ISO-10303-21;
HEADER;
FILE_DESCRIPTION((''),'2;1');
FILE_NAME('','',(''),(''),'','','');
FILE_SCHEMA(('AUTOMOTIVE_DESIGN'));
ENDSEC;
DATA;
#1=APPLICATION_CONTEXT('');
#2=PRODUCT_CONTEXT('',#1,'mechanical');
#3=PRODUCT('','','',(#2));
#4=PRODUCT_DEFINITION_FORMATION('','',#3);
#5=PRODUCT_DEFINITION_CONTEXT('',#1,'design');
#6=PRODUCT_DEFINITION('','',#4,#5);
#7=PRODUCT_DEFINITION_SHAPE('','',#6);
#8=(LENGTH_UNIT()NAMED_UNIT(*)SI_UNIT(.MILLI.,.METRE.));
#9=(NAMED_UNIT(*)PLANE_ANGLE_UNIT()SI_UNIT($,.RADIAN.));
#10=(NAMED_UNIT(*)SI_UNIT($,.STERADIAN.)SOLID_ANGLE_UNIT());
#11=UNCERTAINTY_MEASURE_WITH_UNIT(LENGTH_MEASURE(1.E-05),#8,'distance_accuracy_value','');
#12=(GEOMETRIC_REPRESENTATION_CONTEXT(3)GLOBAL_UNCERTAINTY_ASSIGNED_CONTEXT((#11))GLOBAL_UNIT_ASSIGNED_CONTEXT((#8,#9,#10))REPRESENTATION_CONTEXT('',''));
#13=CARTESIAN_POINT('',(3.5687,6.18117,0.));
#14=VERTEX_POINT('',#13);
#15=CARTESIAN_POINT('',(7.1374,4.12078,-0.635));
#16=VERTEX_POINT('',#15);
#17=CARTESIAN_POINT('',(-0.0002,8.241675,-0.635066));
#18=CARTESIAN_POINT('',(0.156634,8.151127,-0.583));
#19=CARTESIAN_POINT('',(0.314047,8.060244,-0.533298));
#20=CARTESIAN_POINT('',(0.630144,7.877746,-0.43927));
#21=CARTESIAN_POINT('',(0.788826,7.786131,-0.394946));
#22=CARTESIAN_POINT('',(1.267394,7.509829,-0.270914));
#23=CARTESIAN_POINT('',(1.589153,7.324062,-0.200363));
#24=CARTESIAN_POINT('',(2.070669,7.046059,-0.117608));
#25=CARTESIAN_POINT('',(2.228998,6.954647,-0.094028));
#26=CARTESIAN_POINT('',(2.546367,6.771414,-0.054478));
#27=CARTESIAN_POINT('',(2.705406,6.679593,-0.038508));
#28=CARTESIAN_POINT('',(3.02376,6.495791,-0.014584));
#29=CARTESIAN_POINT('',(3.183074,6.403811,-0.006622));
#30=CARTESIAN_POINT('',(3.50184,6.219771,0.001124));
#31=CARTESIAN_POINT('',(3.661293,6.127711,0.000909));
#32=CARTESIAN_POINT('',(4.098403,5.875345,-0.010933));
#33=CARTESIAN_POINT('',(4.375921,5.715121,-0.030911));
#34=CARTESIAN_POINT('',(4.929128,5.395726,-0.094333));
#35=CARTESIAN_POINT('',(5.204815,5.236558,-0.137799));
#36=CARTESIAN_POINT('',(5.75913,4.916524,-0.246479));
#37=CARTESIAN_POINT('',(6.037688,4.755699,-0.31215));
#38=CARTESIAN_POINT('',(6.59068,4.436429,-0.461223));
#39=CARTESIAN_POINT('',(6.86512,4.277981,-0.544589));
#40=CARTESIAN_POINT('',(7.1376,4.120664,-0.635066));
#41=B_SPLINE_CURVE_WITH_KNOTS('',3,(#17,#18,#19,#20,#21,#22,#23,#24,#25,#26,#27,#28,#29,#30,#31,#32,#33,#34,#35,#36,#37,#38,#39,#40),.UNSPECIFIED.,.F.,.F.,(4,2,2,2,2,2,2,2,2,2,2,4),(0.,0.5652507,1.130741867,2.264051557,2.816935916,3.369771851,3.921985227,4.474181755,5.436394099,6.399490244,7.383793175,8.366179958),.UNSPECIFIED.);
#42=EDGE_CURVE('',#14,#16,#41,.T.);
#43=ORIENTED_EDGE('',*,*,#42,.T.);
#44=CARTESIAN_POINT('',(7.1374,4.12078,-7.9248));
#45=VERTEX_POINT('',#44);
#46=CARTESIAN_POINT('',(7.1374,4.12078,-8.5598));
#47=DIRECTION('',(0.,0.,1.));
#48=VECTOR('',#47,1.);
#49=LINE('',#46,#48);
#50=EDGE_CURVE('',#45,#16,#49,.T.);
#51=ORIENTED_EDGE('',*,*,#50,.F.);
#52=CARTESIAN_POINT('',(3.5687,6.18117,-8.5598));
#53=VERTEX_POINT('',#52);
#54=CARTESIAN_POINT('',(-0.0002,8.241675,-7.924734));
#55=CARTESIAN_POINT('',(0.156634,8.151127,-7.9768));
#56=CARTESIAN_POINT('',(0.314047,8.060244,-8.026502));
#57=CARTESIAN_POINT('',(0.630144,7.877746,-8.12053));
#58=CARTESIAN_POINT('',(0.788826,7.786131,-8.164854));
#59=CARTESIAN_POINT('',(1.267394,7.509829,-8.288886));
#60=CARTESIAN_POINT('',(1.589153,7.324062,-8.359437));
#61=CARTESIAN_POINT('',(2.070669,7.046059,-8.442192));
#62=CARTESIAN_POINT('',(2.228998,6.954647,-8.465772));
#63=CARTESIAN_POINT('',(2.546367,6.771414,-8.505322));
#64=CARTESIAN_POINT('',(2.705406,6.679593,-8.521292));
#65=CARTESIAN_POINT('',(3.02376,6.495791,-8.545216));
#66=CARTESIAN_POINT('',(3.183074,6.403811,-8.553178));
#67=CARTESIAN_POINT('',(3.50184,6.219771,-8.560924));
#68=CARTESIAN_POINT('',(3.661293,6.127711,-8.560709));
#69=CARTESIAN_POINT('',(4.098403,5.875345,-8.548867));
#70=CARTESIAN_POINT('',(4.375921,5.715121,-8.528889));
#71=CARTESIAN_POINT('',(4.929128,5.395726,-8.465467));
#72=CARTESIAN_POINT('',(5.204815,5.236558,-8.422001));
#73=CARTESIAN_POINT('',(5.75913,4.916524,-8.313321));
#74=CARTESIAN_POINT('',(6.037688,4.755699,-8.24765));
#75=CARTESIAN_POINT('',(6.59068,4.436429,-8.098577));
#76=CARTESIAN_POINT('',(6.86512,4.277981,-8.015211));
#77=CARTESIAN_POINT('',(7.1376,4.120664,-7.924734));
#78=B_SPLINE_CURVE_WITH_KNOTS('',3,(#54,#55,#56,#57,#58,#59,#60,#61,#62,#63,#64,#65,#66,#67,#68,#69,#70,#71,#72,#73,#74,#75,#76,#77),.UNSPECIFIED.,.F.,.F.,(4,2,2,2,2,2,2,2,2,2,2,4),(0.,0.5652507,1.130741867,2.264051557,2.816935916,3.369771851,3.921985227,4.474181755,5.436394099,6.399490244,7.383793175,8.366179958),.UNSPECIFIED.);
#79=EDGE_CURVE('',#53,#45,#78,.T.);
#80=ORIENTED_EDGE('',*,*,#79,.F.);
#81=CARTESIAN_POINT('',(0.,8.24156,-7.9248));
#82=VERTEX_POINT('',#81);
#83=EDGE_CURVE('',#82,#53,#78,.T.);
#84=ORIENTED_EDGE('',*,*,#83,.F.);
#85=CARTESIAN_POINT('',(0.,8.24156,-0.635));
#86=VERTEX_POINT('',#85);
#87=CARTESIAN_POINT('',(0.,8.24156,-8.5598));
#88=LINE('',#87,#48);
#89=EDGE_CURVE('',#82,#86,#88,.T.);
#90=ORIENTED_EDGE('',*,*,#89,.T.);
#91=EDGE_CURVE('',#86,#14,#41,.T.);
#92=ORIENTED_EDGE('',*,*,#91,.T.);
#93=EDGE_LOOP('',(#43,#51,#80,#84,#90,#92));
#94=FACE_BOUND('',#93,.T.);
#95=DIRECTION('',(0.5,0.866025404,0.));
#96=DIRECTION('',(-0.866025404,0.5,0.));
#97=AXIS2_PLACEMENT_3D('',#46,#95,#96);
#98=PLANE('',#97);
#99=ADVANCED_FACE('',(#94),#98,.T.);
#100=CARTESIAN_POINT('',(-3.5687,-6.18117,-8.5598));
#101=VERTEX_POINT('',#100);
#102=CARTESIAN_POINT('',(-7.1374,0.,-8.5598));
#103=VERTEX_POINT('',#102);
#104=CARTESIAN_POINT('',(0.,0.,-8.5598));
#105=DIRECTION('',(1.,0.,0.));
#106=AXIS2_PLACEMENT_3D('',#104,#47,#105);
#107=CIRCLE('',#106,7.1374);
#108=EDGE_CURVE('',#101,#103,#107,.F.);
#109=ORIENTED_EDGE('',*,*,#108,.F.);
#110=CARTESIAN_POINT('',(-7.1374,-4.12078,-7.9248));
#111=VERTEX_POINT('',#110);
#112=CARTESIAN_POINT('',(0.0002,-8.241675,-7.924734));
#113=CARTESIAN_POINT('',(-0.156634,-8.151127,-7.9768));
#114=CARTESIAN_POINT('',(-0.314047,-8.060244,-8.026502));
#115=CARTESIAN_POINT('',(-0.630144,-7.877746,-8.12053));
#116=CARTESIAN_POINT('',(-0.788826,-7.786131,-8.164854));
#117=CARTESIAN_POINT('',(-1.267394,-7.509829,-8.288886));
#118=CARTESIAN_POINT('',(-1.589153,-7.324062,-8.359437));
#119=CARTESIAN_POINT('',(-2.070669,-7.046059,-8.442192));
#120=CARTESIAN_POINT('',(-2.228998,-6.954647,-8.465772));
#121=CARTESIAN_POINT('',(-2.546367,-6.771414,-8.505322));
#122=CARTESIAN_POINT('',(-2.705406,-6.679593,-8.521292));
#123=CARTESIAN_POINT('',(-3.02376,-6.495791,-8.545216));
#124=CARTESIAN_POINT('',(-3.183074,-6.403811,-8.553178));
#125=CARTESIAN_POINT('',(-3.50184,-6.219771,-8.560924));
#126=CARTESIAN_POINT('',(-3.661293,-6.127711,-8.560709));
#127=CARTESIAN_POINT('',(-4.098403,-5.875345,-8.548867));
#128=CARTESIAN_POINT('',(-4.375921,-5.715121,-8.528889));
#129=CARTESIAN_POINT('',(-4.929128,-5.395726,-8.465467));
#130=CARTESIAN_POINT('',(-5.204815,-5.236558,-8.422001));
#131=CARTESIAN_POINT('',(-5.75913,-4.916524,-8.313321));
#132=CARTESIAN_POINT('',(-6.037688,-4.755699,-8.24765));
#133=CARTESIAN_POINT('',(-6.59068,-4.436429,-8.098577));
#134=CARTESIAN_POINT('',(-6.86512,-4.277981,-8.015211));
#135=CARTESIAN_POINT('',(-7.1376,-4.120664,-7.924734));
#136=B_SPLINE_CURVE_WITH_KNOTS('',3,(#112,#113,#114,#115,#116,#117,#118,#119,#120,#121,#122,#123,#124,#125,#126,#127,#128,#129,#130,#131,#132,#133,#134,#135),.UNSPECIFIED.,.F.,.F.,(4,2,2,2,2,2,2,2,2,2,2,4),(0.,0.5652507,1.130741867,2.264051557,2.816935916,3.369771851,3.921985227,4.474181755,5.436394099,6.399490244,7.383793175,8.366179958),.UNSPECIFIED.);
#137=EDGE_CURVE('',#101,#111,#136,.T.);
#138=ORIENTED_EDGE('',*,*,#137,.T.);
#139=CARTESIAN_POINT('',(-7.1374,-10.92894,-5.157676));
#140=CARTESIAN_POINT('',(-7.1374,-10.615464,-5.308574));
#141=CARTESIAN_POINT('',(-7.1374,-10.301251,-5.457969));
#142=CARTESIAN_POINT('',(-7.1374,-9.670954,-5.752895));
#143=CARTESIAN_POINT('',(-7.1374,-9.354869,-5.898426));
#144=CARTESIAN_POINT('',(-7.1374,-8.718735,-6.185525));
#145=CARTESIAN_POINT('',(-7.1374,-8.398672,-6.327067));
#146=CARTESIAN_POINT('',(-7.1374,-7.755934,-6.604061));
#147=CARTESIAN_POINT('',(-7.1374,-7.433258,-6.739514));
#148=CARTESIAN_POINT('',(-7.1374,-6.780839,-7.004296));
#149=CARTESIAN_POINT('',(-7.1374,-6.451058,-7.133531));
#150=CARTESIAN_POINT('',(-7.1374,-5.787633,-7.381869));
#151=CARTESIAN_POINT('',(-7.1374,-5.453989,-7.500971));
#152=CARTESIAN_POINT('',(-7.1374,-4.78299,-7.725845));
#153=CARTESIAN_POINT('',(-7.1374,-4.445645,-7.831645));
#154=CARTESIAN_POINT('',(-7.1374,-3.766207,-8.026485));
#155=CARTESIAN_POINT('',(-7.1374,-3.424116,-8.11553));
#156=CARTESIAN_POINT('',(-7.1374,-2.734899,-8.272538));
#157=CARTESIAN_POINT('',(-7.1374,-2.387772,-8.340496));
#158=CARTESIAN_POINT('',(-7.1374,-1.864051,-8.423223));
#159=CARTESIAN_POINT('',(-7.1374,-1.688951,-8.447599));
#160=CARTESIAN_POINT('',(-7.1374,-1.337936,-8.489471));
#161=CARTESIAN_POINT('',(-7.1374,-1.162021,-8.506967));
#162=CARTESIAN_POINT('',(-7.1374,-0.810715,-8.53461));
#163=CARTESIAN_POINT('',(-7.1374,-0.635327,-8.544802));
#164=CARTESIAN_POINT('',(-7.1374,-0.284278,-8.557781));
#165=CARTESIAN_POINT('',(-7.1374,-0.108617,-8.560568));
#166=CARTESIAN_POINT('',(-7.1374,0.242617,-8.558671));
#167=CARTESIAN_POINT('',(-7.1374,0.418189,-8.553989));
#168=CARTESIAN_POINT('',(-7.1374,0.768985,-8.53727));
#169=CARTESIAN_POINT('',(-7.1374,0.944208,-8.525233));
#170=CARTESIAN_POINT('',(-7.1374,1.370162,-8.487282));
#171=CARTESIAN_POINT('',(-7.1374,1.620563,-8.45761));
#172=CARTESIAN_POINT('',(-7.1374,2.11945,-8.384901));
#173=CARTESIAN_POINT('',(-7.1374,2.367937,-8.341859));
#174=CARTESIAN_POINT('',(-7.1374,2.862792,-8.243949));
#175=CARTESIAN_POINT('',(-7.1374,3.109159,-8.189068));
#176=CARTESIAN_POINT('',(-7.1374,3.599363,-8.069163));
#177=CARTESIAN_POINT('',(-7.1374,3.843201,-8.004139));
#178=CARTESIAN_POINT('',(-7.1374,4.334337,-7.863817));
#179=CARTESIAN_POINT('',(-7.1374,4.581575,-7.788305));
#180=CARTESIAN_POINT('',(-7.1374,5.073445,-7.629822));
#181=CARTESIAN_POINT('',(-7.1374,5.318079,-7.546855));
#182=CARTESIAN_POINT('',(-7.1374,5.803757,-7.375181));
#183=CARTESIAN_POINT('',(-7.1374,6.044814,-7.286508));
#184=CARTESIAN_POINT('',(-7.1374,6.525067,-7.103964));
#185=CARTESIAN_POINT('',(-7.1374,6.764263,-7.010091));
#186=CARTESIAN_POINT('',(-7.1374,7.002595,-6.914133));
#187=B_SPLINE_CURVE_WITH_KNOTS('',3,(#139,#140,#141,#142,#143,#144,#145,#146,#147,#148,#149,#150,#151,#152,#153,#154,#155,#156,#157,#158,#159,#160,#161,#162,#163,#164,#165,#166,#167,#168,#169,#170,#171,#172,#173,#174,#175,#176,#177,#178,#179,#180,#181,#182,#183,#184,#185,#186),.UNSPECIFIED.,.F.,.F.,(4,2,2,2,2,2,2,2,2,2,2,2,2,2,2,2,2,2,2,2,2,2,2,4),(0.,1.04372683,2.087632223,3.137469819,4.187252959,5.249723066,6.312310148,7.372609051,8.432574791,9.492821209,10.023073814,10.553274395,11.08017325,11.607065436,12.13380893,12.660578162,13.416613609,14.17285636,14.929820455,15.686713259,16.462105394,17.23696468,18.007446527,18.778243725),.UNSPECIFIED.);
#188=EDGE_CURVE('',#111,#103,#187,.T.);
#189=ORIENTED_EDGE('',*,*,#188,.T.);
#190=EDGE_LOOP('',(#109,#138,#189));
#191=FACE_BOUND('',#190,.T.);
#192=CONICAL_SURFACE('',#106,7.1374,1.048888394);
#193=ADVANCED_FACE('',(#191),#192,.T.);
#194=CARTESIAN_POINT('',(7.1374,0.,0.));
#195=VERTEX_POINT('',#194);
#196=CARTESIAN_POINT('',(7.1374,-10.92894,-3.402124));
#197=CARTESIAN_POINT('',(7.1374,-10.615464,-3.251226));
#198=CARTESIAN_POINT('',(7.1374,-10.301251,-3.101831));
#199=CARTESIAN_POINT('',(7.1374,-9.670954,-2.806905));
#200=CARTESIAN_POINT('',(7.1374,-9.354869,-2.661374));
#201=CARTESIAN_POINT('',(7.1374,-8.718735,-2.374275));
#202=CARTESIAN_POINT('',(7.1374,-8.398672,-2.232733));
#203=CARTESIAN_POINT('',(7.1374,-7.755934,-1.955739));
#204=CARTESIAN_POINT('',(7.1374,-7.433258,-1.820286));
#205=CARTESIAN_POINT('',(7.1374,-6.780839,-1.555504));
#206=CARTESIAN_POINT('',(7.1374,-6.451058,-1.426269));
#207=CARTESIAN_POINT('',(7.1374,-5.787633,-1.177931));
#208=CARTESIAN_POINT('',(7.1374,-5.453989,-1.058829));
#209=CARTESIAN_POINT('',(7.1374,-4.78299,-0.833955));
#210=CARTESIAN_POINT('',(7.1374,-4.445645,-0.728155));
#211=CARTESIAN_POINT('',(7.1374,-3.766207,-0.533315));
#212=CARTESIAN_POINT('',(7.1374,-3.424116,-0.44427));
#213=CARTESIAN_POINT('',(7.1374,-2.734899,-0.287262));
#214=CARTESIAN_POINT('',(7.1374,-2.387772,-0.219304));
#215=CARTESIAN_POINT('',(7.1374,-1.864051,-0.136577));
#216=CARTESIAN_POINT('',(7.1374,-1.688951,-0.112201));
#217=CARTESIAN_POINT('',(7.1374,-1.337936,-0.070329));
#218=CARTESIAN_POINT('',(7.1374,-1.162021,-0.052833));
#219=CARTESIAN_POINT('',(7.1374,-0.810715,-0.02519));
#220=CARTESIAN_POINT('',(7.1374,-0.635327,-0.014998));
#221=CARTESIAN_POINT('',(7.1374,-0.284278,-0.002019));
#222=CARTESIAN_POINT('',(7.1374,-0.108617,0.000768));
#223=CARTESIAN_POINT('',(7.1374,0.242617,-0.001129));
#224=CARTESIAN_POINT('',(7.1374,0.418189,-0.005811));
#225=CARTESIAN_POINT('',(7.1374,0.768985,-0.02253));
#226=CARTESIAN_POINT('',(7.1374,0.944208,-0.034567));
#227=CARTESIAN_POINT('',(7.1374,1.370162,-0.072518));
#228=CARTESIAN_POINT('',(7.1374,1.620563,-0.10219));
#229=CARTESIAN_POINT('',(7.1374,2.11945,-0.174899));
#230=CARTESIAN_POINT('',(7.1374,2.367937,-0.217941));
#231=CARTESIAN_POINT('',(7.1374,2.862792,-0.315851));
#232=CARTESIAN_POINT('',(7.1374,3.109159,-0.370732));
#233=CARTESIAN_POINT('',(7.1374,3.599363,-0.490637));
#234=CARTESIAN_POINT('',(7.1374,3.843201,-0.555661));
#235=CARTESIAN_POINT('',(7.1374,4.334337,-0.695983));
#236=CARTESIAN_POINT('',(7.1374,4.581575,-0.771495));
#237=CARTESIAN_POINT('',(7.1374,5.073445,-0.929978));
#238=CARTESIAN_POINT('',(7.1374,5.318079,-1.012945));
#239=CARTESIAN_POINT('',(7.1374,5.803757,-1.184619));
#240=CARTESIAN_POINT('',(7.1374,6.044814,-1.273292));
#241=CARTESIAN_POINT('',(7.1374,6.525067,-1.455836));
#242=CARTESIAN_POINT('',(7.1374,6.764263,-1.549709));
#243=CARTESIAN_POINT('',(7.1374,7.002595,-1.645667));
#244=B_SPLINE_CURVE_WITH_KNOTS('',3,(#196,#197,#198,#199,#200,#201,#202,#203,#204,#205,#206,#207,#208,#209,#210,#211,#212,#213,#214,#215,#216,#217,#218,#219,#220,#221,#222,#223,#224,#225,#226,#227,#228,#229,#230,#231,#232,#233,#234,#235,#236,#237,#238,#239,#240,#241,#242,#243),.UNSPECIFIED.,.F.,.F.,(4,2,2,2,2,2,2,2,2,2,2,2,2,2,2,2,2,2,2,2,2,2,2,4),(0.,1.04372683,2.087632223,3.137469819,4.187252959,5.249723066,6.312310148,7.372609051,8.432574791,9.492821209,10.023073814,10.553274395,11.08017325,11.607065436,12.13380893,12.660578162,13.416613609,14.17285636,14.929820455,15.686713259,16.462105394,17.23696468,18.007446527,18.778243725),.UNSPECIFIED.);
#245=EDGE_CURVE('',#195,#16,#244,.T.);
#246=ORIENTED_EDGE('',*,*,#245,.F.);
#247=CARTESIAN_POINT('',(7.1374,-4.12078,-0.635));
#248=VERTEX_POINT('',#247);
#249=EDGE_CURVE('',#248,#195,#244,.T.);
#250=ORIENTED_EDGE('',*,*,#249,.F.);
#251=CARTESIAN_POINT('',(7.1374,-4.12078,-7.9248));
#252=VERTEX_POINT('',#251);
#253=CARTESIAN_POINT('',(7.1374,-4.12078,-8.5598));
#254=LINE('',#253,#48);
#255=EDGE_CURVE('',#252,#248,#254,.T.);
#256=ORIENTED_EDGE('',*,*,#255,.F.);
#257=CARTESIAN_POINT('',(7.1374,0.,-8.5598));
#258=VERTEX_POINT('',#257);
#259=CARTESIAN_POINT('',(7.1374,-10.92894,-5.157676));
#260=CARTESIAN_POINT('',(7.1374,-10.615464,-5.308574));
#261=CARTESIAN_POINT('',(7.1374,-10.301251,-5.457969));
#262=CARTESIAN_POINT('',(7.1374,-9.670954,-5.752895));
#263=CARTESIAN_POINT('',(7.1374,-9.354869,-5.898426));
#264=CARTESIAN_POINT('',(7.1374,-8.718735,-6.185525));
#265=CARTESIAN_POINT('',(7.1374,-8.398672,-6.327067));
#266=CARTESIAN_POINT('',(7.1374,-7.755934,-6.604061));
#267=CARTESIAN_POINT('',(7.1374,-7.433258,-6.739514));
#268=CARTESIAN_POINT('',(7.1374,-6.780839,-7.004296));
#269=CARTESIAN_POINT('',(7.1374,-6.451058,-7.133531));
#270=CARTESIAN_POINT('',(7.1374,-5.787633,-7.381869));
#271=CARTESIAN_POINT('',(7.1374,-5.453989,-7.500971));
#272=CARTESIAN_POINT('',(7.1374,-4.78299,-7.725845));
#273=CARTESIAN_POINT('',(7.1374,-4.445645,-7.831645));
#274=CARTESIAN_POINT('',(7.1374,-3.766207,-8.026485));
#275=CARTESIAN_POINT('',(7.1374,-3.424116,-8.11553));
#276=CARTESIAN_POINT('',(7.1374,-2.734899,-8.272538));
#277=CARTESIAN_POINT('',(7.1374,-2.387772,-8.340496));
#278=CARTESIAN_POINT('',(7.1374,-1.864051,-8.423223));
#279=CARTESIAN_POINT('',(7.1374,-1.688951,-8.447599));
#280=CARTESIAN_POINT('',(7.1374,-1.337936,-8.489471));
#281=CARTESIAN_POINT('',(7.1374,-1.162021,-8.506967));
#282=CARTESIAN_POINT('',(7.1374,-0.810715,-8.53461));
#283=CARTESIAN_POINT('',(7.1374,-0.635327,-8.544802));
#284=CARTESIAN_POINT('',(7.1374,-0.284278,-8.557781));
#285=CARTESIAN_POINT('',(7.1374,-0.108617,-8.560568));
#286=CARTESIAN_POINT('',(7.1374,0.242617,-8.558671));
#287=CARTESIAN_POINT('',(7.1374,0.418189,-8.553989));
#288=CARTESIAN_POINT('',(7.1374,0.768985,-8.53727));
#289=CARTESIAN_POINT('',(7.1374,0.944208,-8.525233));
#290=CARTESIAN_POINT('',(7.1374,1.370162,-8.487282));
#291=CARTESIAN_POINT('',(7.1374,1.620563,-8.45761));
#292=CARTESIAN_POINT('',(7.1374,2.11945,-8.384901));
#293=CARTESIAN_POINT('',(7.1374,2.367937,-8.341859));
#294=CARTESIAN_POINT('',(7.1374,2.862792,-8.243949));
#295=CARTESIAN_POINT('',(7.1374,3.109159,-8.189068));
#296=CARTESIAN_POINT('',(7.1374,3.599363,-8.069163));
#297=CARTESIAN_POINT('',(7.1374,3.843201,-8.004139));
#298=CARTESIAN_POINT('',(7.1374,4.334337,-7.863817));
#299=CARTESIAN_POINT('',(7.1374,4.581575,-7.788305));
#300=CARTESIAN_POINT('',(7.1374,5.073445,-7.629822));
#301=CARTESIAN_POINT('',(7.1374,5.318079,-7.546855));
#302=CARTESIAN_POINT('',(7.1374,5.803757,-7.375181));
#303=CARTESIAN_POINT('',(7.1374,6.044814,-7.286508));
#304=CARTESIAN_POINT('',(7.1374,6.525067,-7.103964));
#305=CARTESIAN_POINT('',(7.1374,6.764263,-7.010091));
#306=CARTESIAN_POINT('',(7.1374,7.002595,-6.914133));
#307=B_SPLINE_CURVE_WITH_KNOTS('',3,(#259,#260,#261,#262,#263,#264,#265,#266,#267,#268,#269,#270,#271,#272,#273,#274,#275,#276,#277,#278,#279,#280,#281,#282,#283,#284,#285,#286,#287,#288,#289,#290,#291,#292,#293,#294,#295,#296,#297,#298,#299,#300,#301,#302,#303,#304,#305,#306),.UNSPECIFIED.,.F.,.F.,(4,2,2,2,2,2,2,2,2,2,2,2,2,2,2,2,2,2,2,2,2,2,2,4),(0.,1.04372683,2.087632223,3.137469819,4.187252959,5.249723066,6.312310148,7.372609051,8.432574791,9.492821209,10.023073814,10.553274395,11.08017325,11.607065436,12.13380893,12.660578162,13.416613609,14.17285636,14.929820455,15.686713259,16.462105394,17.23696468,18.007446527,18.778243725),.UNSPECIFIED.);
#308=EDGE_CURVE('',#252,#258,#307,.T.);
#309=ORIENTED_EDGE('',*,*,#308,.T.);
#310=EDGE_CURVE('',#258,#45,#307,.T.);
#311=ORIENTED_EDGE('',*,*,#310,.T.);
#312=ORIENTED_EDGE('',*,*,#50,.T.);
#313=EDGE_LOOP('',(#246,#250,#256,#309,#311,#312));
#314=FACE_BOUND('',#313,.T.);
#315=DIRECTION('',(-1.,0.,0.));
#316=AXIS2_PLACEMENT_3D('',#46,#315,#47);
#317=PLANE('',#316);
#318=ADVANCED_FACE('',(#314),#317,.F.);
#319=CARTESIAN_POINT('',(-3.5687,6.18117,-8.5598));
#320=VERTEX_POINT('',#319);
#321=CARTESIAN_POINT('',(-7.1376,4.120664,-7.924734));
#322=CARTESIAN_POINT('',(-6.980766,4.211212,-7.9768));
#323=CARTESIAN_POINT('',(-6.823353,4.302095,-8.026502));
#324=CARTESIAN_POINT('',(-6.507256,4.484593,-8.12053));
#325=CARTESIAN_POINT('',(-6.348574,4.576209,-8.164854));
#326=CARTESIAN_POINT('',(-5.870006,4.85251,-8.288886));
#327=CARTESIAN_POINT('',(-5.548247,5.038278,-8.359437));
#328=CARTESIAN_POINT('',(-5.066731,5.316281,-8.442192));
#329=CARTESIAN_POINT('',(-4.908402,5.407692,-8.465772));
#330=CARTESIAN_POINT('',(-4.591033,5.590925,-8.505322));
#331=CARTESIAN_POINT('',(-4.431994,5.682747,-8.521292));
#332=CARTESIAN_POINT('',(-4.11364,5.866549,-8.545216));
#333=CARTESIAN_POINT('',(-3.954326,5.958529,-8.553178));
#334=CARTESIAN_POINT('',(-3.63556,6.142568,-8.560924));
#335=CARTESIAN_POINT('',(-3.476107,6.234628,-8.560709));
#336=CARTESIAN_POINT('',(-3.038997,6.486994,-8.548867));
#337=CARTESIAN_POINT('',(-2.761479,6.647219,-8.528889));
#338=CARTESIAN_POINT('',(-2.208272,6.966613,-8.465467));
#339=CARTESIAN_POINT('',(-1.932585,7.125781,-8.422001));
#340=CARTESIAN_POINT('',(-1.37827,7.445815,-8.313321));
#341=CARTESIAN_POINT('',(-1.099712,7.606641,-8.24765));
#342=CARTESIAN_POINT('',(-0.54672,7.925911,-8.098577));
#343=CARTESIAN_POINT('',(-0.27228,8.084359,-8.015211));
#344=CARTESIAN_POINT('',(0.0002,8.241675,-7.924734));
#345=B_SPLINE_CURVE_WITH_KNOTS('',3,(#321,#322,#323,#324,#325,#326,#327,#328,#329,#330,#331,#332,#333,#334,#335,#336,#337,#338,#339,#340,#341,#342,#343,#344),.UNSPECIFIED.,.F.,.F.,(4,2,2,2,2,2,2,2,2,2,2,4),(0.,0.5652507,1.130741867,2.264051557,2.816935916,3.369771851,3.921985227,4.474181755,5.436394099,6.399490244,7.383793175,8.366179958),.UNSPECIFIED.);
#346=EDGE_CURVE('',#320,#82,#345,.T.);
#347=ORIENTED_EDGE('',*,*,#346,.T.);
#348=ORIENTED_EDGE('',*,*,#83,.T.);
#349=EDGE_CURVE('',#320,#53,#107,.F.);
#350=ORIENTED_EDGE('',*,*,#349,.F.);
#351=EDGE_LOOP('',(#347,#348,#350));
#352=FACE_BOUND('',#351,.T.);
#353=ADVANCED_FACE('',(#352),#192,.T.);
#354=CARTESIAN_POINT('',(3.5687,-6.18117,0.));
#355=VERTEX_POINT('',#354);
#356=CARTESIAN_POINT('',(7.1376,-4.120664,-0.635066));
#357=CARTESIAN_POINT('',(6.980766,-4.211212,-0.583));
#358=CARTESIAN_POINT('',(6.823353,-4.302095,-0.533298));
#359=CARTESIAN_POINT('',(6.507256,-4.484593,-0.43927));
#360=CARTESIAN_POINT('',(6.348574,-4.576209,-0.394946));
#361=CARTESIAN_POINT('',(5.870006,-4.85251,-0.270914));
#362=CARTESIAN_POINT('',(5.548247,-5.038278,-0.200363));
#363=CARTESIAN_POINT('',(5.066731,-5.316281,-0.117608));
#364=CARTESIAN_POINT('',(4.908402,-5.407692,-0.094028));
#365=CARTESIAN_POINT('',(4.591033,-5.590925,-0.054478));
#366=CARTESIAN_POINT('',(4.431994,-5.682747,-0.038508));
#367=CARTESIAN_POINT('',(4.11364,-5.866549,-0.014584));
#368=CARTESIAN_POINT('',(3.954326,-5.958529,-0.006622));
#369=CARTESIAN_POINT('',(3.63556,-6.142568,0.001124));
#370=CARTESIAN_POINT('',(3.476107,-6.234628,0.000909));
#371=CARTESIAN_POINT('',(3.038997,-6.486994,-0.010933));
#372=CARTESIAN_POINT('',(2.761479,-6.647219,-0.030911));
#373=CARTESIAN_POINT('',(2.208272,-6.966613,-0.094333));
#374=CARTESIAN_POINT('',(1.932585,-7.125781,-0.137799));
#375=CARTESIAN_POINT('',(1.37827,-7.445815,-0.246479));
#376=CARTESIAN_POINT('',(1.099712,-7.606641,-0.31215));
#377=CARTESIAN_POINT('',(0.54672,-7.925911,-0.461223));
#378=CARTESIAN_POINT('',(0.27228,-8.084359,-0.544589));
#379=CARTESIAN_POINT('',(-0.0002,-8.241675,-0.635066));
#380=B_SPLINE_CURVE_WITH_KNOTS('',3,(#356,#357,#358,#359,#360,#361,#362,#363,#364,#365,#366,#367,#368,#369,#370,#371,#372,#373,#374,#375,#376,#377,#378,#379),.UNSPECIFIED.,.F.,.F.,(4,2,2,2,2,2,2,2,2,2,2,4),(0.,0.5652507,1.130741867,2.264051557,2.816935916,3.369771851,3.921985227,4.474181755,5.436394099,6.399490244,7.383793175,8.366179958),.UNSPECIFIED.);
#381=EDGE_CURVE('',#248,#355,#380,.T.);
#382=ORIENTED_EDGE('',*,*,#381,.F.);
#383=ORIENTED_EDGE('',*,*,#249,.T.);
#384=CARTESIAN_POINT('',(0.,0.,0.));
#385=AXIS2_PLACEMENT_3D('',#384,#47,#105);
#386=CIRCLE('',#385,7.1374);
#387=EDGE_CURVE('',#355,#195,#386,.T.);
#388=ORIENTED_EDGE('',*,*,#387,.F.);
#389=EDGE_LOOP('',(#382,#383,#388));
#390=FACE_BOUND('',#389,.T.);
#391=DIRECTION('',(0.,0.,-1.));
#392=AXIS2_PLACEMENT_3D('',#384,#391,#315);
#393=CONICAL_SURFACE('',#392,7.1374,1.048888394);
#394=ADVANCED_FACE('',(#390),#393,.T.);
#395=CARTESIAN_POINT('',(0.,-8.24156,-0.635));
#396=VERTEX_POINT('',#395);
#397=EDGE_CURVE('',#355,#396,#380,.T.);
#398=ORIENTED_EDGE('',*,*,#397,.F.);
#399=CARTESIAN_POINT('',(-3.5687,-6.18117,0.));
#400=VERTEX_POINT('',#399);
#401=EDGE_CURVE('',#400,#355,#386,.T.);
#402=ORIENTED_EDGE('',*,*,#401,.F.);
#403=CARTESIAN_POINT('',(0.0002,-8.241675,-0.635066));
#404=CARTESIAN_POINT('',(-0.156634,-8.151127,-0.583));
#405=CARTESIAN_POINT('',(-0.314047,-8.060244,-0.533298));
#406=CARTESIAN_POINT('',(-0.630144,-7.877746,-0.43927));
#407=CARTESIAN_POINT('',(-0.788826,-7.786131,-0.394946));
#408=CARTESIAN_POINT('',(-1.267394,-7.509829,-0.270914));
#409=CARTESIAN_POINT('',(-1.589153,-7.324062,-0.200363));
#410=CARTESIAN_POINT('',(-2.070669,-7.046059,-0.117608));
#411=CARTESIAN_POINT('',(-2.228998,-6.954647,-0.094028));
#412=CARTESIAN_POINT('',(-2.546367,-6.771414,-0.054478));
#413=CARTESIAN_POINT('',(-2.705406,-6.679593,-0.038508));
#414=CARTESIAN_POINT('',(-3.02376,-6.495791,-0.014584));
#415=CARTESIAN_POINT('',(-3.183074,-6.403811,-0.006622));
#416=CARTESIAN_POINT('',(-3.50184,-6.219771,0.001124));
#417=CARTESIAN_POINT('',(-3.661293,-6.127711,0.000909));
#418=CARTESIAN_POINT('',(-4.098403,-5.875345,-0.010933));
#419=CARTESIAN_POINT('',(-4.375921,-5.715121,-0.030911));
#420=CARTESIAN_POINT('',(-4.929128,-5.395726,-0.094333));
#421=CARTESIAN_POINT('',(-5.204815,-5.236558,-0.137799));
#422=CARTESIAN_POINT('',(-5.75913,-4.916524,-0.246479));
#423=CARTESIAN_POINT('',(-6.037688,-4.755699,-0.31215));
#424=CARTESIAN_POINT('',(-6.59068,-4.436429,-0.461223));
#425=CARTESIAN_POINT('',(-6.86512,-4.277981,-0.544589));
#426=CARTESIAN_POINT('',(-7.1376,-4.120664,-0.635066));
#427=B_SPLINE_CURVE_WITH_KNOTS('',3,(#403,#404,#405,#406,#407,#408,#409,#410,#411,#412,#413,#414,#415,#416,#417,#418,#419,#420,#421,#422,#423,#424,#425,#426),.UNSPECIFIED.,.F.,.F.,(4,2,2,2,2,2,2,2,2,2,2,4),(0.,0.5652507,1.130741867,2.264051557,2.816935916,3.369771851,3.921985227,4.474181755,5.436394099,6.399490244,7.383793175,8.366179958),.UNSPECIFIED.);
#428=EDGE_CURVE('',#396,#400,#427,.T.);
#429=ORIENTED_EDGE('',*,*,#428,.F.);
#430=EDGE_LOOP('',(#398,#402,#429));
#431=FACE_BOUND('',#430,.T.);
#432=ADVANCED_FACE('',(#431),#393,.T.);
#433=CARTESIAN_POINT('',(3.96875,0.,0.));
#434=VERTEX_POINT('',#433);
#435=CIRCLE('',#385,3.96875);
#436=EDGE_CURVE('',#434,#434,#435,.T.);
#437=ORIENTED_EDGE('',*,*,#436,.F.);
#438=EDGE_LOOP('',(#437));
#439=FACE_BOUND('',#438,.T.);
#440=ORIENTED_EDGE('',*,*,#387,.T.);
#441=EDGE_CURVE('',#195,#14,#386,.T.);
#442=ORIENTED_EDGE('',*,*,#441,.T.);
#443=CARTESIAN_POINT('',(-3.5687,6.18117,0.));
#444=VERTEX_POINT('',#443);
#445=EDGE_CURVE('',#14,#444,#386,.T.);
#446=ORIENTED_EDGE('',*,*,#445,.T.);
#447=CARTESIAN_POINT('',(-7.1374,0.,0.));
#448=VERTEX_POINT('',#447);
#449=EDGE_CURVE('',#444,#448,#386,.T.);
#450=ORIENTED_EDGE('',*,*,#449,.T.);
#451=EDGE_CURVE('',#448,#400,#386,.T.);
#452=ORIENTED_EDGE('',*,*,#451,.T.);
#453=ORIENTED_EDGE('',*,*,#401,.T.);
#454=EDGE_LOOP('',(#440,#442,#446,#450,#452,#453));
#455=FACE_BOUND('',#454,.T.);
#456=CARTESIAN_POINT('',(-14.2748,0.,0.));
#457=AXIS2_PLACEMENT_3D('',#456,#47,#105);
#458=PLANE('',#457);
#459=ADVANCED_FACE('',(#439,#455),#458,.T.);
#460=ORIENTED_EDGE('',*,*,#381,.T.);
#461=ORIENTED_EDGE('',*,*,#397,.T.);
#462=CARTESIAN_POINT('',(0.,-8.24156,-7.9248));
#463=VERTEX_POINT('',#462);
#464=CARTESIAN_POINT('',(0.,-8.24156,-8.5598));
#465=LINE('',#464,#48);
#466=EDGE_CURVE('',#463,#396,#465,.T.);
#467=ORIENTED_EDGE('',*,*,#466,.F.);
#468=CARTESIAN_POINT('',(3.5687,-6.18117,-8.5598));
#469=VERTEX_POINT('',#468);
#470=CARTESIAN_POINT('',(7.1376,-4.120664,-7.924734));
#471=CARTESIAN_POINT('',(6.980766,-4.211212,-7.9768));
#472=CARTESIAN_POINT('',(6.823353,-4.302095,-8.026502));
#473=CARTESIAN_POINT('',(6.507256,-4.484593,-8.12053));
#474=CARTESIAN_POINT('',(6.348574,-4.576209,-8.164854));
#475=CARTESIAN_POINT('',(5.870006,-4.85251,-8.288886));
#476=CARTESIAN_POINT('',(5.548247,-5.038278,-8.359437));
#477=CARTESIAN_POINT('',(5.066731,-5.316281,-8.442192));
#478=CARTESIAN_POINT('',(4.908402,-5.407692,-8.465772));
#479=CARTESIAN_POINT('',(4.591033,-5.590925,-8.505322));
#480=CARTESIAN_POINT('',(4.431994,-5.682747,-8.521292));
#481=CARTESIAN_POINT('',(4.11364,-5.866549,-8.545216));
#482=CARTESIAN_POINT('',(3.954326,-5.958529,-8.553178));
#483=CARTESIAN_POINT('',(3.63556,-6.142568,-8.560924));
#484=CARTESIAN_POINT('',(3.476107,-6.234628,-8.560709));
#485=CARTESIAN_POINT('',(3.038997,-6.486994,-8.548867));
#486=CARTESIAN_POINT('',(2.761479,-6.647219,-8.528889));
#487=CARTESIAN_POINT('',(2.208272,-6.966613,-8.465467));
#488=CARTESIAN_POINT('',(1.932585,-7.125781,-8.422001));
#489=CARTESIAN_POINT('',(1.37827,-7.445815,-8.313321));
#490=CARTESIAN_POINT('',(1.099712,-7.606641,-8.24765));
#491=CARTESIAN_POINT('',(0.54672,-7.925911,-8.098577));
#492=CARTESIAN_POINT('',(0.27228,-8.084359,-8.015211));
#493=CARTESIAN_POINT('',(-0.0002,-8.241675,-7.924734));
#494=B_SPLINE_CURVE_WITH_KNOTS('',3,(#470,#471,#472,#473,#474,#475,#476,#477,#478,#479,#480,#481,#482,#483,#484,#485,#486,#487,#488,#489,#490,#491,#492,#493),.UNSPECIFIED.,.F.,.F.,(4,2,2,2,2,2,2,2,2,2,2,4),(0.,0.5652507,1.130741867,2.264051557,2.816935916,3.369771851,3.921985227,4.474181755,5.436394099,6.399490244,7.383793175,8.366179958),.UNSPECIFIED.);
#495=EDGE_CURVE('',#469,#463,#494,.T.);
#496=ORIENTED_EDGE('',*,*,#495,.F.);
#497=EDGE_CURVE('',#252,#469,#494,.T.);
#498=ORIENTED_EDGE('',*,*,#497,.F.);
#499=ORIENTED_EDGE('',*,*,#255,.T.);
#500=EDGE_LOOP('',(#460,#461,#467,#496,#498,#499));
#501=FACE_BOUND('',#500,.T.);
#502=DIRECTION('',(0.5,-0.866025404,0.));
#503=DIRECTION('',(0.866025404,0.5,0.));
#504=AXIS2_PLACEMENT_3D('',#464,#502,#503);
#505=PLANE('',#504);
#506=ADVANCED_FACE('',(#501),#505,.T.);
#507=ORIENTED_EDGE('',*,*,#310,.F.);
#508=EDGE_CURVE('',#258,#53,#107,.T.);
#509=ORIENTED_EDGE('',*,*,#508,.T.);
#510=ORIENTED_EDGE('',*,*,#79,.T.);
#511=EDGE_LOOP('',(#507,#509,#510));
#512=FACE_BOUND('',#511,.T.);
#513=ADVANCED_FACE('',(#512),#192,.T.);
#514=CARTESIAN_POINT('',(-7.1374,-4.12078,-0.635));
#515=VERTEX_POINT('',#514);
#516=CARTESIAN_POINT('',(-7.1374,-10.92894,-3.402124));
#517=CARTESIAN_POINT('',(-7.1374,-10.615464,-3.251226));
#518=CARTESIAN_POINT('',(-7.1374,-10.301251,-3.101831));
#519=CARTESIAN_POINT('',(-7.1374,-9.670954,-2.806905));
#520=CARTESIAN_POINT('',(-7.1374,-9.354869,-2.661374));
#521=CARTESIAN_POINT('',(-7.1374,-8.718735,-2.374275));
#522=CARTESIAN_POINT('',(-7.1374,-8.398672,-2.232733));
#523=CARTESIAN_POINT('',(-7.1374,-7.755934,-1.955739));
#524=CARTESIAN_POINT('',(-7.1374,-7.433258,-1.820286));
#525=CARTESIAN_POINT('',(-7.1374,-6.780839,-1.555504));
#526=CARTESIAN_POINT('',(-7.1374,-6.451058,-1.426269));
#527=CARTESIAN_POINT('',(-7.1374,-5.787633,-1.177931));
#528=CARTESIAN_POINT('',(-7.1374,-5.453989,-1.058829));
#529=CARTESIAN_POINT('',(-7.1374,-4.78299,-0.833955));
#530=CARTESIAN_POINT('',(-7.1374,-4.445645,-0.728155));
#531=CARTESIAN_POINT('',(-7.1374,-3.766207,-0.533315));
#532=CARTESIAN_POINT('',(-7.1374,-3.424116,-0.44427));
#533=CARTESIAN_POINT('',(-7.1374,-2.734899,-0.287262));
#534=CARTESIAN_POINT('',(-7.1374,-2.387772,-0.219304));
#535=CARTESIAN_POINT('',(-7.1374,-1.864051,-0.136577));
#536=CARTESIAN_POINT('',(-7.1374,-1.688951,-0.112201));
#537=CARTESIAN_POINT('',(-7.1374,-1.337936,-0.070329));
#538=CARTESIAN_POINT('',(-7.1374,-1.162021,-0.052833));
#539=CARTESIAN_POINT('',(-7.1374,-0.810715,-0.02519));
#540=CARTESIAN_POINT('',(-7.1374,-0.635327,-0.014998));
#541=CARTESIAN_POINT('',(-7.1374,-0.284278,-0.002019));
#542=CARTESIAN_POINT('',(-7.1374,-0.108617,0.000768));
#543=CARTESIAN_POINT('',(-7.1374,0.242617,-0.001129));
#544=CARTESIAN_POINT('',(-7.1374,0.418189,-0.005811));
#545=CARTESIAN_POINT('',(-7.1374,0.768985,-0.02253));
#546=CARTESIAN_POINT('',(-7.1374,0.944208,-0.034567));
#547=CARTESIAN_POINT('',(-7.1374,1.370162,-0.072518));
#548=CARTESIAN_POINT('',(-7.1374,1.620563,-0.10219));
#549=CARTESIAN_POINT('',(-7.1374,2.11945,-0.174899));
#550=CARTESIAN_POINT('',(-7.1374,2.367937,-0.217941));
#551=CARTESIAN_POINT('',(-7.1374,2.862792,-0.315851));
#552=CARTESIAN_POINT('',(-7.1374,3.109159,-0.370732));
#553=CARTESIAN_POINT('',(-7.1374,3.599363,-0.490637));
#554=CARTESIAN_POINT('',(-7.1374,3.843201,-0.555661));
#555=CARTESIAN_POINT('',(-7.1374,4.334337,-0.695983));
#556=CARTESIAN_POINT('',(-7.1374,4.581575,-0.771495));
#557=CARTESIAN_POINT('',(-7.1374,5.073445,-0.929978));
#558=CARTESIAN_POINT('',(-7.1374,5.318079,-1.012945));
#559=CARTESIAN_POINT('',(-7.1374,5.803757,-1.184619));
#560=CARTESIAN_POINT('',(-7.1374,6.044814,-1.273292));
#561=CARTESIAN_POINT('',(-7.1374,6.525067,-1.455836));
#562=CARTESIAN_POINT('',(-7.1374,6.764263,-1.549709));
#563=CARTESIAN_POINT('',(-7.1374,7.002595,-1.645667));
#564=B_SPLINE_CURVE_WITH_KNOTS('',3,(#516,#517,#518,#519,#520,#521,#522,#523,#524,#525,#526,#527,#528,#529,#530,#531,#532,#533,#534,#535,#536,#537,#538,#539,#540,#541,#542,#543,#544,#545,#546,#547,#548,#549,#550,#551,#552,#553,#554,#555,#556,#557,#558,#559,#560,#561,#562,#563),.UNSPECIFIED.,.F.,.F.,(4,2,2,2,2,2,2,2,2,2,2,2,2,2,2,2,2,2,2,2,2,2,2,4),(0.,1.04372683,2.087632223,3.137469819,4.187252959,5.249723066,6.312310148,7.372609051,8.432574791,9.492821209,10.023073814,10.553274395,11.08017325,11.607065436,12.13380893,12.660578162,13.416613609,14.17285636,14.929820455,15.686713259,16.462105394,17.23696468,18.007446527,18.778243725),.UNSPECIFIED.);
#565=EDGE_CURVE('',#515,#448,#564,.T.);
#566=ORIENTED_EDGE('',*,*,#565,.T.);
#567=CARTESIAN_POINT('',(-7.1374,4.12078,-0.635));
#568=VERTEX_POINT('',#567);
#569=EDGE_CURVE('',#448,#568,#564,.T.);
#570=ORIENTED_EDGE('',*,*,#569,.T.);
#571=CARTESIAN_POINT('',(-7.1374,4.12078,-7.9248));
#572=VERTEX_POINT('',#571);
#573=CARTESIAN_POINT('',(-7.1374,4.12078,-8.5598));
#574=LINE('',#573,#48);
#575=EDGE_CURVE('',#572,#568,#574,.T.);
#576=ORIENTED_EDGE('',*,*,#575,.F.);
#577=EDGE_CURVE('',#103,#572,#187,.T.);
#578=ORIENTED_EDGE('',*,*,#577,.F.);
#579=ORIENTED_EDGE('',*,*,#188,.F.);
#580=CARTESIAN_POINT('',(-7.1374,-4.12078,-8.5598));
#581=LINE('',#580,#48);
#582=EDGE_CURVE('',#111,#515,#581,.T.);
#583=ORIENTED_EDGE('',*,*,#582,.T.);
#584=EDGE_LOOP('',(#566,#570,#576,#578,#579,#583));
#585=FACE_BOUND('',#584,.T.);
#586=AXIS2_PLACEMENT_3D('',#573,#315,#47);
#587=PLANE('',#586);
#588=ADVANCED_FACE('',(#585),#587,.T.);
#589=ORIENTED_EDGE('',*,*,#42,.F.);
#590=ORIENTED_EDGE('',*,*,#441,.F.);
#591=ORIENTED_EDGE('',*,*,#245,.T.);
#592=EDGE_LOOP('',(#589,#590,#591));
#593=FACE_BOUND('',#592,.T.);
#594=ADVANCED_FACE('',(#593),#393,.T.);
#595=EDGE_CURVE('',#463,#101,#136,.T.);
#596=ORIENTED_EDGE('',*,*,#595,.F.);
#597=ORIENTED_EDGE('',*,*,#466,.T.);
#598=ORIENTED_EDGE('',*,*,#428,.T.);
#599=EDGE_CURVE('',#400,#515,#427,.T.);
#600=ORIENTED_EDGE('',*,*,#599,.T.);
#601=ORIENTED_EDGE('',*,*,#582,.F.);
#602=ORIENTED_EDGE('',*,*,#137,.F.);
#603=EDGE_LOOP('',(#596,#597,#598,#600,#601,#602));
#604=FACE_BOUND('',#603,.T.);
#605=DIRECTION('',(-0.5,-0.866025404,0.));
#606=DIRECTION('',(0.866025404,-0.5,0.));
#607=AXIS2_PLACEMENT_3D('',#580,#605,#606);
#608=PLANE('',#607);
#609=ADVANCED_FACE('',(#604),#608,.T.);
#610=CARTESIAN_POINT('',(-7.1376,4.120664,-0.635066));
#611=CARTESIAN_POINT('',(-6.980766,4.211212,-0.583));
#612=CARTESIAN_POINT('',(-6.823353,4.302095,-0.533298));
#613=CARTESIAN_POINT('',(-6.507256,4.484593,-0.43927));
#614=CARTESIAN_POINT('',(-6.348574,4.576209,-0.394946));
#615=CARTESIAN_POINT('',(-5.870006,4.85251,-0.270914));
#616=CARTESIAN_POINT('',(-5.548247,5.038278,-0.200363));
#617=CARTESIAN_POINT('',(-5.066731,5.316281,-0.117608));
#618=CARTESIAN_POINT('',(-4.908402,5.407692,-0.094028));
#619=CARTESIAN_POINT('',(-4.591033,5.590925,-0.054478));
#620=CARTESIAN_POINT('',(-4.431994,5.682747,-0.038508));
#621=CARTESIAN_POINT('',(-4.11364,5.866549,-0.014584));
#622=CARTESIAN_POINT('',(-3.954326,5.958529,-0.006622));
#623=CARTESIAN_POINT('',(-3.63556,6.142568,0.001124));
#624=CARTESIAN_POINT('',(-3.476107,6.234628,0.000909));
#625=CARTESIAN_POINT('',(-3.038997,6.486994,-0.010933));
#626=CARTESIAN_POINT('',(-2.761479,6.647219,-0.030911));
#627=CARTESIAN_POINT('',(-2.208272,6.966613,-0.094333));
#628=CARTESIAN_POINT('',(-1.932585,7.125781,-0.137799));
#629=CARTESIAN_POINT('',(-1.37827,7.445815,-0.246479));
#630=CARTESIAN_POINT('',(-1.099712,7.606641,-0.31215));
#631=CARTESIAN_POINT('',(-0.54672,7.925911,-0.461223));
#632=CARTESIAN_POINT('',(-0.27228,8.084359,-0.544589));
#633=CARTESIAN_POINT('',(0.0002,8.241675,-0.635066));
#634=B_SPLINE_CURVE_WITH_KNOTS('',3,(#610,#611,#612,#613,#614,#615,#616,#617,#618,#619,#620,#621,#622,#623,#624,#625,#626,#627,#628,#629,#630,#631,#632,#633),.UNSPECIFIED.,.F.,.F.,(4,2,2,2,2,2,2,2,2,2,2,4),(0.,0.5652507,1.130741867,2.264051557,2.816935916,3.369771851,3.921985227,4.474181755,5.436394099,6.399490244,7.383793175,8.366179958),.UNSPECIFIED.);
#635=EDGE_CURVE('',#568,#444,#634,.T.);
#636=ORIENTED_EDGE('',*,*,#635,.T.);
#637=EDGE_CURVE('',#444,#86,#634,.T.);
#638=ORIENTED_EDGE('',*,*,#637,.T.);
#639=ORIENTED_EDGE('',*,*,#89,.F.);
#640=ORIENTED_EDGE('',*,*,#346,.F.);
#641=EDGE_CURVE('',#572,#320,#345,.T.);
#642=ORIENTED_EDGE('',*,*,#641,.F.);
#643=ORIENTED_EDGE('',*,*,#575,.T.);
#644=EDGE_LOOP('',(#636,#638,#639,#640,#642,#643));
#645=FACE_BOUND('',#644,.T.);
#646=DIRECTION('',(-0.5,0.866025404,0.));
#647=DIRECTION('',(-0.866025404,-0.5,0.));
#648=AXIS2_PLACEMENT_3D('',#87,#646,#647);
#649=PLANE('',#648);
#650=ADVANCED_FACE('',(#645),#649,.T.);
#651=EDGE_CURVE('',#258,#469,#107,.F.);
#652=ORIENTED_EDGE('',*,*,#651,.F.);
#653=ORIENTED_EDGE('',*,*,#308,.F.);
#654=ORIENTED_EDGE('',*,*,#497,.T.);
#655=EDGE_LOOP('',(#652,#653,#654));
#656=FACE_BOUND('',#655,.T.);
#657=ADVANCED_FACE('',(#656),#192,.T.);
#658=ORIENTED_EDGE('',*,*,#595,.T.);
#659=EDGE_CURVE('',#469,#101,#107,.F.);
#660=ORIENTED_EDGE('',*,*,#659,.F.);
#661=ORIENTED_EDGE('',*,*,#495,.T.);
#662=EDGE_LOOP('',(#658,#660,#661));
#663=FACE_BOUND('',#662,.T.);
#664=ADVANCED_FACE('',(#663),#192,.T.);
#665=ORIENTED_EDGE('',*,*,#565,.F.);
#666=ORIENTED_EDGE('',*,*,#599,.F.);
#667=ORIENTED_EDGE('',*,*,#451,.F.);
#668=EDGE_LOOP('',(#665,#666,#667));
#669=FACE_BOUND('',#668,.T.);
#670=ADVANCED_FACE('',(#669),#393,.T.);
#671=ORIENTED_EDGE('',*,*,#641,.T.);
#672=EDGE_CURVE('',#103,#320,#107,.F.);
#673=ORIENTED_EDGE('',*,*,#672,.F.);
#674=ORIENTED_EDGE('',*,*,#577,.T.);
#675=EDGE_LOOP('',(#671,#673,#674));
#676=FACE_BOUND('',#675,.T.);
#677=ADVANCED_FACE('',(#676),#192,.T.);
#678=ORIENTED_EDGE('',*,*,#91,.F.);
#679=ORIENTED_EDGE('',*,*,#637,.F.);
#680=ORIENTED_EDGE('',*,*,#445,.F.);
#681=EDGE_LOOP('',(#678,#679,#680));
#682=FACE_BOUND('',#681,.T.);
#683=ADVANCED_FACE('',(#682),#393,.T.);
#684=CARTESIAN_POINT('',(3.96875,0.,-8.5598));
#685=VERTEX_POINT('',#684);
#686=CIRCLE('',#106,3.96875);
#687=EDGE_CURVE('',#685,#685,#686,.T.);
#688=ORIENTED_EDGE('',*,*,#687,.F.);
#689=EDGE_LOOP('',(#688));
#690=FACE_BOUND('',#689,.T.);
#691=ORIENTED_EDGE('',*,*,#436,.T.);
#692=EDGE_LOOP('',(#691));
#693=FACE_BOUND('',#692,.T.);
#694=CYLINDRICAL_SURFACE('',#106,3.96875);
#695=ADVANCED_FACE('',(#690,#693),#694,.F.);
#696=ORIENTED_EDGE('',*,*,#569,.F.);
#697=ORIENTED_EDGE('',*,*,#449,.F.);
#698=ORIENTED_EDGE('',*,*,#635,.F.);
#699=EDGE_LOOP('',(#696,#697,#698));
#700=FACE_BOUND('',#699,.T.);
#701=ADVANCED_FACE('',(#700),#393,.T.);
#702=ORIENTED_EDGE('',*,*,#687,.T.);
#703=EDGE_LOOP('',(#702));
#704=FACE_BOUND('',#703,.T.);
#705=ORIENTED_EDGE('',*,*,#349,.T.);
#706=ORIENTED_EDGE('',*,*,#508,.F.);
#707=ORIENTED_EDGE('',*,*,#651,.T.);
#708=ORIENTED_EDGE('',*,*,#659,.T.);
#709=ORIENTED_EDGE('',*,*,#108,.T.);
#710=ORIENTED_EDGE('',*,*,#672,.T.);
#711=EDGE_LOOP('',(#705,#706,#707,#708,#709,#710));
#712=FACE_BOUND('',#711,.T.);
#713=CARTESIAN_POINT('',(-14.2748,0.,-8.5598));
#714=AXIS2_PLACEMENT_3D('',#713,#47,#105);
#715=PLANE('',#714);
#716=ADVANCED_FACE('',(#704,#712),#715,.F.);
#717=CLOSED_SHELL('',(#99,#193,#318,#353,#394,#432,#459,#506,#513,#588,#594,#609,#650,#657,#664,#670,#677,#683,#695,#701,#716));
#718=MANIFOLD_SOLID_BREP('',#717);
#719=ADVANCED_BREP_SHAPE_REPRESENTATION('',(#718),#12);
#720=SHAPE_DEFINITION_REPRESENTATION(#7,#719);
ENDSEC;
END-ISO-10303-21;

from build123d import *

# Parameters (mm, degrees)
BASENUTSKE_R  = 3.96875
BASENUT_DEPTH = 8.5598


with BuildPart() as part:
    # BaseNutSke → BaseNut (new body)
    with BuildSketch(Plane.XY):
        Polygon((7.1374, 4.120779811), (7.1374, -4.120779811), (0, -8.241559623), (-7.1374, -4.120779811), (-7.1374, 4.120779811), (0, 8.241559623), align=None)
        Circle(BASENUTSKE_R, mode=Mode.SUBTRACT)
    extrude(amount=-BASENUT_DEPTH)

    # Sketch3 → Double-Chamfer (revolve, cut)
    with BuildSketch(Plane(origin=(0, 0, 0), x_dir=(0, 0, -1), z_dir=(1, 0, 0))):
        Polygon((8.5598, 7.1374), (7.9248, 8.241559623), (7.9248, 20.941559623), (21.2598, 20.941559623), (21.2598, 7.1374), align=None)
        Polygon((0.635, 20.941559623), (-12.7, 20.941559623), (-12.7, 7.1374), (0, 7.1374), (0.635, 8.241559623), align=None)
    revolve(axis=Axis((0, 0, 0), (0, 0, -1)), mode=Mode.SUBTRACT)

    # Sketch5 → EndChamfer (revolve, cut)
    with BuildSketch(Plane(origin=(0, 0, 0), x_dir=(0, 0, -1), z_dir=(1, 0, 0))):
        Polygon((8.5344, 3.175), (8.055086934, 2.49047), (8.5852, 2.49047), (8.5852, 3.175), align=None)
        Polygon((-0.0508, 3.175), (0, 3.175), (0.479313066, 2.49047), (-0.0508, 2.49047), align=None)
    revolve(axis=Axis((0, 0, -25.037505729), (0, 0, -1)), mode=Mode.SUBTRACT)


solid = part.part
